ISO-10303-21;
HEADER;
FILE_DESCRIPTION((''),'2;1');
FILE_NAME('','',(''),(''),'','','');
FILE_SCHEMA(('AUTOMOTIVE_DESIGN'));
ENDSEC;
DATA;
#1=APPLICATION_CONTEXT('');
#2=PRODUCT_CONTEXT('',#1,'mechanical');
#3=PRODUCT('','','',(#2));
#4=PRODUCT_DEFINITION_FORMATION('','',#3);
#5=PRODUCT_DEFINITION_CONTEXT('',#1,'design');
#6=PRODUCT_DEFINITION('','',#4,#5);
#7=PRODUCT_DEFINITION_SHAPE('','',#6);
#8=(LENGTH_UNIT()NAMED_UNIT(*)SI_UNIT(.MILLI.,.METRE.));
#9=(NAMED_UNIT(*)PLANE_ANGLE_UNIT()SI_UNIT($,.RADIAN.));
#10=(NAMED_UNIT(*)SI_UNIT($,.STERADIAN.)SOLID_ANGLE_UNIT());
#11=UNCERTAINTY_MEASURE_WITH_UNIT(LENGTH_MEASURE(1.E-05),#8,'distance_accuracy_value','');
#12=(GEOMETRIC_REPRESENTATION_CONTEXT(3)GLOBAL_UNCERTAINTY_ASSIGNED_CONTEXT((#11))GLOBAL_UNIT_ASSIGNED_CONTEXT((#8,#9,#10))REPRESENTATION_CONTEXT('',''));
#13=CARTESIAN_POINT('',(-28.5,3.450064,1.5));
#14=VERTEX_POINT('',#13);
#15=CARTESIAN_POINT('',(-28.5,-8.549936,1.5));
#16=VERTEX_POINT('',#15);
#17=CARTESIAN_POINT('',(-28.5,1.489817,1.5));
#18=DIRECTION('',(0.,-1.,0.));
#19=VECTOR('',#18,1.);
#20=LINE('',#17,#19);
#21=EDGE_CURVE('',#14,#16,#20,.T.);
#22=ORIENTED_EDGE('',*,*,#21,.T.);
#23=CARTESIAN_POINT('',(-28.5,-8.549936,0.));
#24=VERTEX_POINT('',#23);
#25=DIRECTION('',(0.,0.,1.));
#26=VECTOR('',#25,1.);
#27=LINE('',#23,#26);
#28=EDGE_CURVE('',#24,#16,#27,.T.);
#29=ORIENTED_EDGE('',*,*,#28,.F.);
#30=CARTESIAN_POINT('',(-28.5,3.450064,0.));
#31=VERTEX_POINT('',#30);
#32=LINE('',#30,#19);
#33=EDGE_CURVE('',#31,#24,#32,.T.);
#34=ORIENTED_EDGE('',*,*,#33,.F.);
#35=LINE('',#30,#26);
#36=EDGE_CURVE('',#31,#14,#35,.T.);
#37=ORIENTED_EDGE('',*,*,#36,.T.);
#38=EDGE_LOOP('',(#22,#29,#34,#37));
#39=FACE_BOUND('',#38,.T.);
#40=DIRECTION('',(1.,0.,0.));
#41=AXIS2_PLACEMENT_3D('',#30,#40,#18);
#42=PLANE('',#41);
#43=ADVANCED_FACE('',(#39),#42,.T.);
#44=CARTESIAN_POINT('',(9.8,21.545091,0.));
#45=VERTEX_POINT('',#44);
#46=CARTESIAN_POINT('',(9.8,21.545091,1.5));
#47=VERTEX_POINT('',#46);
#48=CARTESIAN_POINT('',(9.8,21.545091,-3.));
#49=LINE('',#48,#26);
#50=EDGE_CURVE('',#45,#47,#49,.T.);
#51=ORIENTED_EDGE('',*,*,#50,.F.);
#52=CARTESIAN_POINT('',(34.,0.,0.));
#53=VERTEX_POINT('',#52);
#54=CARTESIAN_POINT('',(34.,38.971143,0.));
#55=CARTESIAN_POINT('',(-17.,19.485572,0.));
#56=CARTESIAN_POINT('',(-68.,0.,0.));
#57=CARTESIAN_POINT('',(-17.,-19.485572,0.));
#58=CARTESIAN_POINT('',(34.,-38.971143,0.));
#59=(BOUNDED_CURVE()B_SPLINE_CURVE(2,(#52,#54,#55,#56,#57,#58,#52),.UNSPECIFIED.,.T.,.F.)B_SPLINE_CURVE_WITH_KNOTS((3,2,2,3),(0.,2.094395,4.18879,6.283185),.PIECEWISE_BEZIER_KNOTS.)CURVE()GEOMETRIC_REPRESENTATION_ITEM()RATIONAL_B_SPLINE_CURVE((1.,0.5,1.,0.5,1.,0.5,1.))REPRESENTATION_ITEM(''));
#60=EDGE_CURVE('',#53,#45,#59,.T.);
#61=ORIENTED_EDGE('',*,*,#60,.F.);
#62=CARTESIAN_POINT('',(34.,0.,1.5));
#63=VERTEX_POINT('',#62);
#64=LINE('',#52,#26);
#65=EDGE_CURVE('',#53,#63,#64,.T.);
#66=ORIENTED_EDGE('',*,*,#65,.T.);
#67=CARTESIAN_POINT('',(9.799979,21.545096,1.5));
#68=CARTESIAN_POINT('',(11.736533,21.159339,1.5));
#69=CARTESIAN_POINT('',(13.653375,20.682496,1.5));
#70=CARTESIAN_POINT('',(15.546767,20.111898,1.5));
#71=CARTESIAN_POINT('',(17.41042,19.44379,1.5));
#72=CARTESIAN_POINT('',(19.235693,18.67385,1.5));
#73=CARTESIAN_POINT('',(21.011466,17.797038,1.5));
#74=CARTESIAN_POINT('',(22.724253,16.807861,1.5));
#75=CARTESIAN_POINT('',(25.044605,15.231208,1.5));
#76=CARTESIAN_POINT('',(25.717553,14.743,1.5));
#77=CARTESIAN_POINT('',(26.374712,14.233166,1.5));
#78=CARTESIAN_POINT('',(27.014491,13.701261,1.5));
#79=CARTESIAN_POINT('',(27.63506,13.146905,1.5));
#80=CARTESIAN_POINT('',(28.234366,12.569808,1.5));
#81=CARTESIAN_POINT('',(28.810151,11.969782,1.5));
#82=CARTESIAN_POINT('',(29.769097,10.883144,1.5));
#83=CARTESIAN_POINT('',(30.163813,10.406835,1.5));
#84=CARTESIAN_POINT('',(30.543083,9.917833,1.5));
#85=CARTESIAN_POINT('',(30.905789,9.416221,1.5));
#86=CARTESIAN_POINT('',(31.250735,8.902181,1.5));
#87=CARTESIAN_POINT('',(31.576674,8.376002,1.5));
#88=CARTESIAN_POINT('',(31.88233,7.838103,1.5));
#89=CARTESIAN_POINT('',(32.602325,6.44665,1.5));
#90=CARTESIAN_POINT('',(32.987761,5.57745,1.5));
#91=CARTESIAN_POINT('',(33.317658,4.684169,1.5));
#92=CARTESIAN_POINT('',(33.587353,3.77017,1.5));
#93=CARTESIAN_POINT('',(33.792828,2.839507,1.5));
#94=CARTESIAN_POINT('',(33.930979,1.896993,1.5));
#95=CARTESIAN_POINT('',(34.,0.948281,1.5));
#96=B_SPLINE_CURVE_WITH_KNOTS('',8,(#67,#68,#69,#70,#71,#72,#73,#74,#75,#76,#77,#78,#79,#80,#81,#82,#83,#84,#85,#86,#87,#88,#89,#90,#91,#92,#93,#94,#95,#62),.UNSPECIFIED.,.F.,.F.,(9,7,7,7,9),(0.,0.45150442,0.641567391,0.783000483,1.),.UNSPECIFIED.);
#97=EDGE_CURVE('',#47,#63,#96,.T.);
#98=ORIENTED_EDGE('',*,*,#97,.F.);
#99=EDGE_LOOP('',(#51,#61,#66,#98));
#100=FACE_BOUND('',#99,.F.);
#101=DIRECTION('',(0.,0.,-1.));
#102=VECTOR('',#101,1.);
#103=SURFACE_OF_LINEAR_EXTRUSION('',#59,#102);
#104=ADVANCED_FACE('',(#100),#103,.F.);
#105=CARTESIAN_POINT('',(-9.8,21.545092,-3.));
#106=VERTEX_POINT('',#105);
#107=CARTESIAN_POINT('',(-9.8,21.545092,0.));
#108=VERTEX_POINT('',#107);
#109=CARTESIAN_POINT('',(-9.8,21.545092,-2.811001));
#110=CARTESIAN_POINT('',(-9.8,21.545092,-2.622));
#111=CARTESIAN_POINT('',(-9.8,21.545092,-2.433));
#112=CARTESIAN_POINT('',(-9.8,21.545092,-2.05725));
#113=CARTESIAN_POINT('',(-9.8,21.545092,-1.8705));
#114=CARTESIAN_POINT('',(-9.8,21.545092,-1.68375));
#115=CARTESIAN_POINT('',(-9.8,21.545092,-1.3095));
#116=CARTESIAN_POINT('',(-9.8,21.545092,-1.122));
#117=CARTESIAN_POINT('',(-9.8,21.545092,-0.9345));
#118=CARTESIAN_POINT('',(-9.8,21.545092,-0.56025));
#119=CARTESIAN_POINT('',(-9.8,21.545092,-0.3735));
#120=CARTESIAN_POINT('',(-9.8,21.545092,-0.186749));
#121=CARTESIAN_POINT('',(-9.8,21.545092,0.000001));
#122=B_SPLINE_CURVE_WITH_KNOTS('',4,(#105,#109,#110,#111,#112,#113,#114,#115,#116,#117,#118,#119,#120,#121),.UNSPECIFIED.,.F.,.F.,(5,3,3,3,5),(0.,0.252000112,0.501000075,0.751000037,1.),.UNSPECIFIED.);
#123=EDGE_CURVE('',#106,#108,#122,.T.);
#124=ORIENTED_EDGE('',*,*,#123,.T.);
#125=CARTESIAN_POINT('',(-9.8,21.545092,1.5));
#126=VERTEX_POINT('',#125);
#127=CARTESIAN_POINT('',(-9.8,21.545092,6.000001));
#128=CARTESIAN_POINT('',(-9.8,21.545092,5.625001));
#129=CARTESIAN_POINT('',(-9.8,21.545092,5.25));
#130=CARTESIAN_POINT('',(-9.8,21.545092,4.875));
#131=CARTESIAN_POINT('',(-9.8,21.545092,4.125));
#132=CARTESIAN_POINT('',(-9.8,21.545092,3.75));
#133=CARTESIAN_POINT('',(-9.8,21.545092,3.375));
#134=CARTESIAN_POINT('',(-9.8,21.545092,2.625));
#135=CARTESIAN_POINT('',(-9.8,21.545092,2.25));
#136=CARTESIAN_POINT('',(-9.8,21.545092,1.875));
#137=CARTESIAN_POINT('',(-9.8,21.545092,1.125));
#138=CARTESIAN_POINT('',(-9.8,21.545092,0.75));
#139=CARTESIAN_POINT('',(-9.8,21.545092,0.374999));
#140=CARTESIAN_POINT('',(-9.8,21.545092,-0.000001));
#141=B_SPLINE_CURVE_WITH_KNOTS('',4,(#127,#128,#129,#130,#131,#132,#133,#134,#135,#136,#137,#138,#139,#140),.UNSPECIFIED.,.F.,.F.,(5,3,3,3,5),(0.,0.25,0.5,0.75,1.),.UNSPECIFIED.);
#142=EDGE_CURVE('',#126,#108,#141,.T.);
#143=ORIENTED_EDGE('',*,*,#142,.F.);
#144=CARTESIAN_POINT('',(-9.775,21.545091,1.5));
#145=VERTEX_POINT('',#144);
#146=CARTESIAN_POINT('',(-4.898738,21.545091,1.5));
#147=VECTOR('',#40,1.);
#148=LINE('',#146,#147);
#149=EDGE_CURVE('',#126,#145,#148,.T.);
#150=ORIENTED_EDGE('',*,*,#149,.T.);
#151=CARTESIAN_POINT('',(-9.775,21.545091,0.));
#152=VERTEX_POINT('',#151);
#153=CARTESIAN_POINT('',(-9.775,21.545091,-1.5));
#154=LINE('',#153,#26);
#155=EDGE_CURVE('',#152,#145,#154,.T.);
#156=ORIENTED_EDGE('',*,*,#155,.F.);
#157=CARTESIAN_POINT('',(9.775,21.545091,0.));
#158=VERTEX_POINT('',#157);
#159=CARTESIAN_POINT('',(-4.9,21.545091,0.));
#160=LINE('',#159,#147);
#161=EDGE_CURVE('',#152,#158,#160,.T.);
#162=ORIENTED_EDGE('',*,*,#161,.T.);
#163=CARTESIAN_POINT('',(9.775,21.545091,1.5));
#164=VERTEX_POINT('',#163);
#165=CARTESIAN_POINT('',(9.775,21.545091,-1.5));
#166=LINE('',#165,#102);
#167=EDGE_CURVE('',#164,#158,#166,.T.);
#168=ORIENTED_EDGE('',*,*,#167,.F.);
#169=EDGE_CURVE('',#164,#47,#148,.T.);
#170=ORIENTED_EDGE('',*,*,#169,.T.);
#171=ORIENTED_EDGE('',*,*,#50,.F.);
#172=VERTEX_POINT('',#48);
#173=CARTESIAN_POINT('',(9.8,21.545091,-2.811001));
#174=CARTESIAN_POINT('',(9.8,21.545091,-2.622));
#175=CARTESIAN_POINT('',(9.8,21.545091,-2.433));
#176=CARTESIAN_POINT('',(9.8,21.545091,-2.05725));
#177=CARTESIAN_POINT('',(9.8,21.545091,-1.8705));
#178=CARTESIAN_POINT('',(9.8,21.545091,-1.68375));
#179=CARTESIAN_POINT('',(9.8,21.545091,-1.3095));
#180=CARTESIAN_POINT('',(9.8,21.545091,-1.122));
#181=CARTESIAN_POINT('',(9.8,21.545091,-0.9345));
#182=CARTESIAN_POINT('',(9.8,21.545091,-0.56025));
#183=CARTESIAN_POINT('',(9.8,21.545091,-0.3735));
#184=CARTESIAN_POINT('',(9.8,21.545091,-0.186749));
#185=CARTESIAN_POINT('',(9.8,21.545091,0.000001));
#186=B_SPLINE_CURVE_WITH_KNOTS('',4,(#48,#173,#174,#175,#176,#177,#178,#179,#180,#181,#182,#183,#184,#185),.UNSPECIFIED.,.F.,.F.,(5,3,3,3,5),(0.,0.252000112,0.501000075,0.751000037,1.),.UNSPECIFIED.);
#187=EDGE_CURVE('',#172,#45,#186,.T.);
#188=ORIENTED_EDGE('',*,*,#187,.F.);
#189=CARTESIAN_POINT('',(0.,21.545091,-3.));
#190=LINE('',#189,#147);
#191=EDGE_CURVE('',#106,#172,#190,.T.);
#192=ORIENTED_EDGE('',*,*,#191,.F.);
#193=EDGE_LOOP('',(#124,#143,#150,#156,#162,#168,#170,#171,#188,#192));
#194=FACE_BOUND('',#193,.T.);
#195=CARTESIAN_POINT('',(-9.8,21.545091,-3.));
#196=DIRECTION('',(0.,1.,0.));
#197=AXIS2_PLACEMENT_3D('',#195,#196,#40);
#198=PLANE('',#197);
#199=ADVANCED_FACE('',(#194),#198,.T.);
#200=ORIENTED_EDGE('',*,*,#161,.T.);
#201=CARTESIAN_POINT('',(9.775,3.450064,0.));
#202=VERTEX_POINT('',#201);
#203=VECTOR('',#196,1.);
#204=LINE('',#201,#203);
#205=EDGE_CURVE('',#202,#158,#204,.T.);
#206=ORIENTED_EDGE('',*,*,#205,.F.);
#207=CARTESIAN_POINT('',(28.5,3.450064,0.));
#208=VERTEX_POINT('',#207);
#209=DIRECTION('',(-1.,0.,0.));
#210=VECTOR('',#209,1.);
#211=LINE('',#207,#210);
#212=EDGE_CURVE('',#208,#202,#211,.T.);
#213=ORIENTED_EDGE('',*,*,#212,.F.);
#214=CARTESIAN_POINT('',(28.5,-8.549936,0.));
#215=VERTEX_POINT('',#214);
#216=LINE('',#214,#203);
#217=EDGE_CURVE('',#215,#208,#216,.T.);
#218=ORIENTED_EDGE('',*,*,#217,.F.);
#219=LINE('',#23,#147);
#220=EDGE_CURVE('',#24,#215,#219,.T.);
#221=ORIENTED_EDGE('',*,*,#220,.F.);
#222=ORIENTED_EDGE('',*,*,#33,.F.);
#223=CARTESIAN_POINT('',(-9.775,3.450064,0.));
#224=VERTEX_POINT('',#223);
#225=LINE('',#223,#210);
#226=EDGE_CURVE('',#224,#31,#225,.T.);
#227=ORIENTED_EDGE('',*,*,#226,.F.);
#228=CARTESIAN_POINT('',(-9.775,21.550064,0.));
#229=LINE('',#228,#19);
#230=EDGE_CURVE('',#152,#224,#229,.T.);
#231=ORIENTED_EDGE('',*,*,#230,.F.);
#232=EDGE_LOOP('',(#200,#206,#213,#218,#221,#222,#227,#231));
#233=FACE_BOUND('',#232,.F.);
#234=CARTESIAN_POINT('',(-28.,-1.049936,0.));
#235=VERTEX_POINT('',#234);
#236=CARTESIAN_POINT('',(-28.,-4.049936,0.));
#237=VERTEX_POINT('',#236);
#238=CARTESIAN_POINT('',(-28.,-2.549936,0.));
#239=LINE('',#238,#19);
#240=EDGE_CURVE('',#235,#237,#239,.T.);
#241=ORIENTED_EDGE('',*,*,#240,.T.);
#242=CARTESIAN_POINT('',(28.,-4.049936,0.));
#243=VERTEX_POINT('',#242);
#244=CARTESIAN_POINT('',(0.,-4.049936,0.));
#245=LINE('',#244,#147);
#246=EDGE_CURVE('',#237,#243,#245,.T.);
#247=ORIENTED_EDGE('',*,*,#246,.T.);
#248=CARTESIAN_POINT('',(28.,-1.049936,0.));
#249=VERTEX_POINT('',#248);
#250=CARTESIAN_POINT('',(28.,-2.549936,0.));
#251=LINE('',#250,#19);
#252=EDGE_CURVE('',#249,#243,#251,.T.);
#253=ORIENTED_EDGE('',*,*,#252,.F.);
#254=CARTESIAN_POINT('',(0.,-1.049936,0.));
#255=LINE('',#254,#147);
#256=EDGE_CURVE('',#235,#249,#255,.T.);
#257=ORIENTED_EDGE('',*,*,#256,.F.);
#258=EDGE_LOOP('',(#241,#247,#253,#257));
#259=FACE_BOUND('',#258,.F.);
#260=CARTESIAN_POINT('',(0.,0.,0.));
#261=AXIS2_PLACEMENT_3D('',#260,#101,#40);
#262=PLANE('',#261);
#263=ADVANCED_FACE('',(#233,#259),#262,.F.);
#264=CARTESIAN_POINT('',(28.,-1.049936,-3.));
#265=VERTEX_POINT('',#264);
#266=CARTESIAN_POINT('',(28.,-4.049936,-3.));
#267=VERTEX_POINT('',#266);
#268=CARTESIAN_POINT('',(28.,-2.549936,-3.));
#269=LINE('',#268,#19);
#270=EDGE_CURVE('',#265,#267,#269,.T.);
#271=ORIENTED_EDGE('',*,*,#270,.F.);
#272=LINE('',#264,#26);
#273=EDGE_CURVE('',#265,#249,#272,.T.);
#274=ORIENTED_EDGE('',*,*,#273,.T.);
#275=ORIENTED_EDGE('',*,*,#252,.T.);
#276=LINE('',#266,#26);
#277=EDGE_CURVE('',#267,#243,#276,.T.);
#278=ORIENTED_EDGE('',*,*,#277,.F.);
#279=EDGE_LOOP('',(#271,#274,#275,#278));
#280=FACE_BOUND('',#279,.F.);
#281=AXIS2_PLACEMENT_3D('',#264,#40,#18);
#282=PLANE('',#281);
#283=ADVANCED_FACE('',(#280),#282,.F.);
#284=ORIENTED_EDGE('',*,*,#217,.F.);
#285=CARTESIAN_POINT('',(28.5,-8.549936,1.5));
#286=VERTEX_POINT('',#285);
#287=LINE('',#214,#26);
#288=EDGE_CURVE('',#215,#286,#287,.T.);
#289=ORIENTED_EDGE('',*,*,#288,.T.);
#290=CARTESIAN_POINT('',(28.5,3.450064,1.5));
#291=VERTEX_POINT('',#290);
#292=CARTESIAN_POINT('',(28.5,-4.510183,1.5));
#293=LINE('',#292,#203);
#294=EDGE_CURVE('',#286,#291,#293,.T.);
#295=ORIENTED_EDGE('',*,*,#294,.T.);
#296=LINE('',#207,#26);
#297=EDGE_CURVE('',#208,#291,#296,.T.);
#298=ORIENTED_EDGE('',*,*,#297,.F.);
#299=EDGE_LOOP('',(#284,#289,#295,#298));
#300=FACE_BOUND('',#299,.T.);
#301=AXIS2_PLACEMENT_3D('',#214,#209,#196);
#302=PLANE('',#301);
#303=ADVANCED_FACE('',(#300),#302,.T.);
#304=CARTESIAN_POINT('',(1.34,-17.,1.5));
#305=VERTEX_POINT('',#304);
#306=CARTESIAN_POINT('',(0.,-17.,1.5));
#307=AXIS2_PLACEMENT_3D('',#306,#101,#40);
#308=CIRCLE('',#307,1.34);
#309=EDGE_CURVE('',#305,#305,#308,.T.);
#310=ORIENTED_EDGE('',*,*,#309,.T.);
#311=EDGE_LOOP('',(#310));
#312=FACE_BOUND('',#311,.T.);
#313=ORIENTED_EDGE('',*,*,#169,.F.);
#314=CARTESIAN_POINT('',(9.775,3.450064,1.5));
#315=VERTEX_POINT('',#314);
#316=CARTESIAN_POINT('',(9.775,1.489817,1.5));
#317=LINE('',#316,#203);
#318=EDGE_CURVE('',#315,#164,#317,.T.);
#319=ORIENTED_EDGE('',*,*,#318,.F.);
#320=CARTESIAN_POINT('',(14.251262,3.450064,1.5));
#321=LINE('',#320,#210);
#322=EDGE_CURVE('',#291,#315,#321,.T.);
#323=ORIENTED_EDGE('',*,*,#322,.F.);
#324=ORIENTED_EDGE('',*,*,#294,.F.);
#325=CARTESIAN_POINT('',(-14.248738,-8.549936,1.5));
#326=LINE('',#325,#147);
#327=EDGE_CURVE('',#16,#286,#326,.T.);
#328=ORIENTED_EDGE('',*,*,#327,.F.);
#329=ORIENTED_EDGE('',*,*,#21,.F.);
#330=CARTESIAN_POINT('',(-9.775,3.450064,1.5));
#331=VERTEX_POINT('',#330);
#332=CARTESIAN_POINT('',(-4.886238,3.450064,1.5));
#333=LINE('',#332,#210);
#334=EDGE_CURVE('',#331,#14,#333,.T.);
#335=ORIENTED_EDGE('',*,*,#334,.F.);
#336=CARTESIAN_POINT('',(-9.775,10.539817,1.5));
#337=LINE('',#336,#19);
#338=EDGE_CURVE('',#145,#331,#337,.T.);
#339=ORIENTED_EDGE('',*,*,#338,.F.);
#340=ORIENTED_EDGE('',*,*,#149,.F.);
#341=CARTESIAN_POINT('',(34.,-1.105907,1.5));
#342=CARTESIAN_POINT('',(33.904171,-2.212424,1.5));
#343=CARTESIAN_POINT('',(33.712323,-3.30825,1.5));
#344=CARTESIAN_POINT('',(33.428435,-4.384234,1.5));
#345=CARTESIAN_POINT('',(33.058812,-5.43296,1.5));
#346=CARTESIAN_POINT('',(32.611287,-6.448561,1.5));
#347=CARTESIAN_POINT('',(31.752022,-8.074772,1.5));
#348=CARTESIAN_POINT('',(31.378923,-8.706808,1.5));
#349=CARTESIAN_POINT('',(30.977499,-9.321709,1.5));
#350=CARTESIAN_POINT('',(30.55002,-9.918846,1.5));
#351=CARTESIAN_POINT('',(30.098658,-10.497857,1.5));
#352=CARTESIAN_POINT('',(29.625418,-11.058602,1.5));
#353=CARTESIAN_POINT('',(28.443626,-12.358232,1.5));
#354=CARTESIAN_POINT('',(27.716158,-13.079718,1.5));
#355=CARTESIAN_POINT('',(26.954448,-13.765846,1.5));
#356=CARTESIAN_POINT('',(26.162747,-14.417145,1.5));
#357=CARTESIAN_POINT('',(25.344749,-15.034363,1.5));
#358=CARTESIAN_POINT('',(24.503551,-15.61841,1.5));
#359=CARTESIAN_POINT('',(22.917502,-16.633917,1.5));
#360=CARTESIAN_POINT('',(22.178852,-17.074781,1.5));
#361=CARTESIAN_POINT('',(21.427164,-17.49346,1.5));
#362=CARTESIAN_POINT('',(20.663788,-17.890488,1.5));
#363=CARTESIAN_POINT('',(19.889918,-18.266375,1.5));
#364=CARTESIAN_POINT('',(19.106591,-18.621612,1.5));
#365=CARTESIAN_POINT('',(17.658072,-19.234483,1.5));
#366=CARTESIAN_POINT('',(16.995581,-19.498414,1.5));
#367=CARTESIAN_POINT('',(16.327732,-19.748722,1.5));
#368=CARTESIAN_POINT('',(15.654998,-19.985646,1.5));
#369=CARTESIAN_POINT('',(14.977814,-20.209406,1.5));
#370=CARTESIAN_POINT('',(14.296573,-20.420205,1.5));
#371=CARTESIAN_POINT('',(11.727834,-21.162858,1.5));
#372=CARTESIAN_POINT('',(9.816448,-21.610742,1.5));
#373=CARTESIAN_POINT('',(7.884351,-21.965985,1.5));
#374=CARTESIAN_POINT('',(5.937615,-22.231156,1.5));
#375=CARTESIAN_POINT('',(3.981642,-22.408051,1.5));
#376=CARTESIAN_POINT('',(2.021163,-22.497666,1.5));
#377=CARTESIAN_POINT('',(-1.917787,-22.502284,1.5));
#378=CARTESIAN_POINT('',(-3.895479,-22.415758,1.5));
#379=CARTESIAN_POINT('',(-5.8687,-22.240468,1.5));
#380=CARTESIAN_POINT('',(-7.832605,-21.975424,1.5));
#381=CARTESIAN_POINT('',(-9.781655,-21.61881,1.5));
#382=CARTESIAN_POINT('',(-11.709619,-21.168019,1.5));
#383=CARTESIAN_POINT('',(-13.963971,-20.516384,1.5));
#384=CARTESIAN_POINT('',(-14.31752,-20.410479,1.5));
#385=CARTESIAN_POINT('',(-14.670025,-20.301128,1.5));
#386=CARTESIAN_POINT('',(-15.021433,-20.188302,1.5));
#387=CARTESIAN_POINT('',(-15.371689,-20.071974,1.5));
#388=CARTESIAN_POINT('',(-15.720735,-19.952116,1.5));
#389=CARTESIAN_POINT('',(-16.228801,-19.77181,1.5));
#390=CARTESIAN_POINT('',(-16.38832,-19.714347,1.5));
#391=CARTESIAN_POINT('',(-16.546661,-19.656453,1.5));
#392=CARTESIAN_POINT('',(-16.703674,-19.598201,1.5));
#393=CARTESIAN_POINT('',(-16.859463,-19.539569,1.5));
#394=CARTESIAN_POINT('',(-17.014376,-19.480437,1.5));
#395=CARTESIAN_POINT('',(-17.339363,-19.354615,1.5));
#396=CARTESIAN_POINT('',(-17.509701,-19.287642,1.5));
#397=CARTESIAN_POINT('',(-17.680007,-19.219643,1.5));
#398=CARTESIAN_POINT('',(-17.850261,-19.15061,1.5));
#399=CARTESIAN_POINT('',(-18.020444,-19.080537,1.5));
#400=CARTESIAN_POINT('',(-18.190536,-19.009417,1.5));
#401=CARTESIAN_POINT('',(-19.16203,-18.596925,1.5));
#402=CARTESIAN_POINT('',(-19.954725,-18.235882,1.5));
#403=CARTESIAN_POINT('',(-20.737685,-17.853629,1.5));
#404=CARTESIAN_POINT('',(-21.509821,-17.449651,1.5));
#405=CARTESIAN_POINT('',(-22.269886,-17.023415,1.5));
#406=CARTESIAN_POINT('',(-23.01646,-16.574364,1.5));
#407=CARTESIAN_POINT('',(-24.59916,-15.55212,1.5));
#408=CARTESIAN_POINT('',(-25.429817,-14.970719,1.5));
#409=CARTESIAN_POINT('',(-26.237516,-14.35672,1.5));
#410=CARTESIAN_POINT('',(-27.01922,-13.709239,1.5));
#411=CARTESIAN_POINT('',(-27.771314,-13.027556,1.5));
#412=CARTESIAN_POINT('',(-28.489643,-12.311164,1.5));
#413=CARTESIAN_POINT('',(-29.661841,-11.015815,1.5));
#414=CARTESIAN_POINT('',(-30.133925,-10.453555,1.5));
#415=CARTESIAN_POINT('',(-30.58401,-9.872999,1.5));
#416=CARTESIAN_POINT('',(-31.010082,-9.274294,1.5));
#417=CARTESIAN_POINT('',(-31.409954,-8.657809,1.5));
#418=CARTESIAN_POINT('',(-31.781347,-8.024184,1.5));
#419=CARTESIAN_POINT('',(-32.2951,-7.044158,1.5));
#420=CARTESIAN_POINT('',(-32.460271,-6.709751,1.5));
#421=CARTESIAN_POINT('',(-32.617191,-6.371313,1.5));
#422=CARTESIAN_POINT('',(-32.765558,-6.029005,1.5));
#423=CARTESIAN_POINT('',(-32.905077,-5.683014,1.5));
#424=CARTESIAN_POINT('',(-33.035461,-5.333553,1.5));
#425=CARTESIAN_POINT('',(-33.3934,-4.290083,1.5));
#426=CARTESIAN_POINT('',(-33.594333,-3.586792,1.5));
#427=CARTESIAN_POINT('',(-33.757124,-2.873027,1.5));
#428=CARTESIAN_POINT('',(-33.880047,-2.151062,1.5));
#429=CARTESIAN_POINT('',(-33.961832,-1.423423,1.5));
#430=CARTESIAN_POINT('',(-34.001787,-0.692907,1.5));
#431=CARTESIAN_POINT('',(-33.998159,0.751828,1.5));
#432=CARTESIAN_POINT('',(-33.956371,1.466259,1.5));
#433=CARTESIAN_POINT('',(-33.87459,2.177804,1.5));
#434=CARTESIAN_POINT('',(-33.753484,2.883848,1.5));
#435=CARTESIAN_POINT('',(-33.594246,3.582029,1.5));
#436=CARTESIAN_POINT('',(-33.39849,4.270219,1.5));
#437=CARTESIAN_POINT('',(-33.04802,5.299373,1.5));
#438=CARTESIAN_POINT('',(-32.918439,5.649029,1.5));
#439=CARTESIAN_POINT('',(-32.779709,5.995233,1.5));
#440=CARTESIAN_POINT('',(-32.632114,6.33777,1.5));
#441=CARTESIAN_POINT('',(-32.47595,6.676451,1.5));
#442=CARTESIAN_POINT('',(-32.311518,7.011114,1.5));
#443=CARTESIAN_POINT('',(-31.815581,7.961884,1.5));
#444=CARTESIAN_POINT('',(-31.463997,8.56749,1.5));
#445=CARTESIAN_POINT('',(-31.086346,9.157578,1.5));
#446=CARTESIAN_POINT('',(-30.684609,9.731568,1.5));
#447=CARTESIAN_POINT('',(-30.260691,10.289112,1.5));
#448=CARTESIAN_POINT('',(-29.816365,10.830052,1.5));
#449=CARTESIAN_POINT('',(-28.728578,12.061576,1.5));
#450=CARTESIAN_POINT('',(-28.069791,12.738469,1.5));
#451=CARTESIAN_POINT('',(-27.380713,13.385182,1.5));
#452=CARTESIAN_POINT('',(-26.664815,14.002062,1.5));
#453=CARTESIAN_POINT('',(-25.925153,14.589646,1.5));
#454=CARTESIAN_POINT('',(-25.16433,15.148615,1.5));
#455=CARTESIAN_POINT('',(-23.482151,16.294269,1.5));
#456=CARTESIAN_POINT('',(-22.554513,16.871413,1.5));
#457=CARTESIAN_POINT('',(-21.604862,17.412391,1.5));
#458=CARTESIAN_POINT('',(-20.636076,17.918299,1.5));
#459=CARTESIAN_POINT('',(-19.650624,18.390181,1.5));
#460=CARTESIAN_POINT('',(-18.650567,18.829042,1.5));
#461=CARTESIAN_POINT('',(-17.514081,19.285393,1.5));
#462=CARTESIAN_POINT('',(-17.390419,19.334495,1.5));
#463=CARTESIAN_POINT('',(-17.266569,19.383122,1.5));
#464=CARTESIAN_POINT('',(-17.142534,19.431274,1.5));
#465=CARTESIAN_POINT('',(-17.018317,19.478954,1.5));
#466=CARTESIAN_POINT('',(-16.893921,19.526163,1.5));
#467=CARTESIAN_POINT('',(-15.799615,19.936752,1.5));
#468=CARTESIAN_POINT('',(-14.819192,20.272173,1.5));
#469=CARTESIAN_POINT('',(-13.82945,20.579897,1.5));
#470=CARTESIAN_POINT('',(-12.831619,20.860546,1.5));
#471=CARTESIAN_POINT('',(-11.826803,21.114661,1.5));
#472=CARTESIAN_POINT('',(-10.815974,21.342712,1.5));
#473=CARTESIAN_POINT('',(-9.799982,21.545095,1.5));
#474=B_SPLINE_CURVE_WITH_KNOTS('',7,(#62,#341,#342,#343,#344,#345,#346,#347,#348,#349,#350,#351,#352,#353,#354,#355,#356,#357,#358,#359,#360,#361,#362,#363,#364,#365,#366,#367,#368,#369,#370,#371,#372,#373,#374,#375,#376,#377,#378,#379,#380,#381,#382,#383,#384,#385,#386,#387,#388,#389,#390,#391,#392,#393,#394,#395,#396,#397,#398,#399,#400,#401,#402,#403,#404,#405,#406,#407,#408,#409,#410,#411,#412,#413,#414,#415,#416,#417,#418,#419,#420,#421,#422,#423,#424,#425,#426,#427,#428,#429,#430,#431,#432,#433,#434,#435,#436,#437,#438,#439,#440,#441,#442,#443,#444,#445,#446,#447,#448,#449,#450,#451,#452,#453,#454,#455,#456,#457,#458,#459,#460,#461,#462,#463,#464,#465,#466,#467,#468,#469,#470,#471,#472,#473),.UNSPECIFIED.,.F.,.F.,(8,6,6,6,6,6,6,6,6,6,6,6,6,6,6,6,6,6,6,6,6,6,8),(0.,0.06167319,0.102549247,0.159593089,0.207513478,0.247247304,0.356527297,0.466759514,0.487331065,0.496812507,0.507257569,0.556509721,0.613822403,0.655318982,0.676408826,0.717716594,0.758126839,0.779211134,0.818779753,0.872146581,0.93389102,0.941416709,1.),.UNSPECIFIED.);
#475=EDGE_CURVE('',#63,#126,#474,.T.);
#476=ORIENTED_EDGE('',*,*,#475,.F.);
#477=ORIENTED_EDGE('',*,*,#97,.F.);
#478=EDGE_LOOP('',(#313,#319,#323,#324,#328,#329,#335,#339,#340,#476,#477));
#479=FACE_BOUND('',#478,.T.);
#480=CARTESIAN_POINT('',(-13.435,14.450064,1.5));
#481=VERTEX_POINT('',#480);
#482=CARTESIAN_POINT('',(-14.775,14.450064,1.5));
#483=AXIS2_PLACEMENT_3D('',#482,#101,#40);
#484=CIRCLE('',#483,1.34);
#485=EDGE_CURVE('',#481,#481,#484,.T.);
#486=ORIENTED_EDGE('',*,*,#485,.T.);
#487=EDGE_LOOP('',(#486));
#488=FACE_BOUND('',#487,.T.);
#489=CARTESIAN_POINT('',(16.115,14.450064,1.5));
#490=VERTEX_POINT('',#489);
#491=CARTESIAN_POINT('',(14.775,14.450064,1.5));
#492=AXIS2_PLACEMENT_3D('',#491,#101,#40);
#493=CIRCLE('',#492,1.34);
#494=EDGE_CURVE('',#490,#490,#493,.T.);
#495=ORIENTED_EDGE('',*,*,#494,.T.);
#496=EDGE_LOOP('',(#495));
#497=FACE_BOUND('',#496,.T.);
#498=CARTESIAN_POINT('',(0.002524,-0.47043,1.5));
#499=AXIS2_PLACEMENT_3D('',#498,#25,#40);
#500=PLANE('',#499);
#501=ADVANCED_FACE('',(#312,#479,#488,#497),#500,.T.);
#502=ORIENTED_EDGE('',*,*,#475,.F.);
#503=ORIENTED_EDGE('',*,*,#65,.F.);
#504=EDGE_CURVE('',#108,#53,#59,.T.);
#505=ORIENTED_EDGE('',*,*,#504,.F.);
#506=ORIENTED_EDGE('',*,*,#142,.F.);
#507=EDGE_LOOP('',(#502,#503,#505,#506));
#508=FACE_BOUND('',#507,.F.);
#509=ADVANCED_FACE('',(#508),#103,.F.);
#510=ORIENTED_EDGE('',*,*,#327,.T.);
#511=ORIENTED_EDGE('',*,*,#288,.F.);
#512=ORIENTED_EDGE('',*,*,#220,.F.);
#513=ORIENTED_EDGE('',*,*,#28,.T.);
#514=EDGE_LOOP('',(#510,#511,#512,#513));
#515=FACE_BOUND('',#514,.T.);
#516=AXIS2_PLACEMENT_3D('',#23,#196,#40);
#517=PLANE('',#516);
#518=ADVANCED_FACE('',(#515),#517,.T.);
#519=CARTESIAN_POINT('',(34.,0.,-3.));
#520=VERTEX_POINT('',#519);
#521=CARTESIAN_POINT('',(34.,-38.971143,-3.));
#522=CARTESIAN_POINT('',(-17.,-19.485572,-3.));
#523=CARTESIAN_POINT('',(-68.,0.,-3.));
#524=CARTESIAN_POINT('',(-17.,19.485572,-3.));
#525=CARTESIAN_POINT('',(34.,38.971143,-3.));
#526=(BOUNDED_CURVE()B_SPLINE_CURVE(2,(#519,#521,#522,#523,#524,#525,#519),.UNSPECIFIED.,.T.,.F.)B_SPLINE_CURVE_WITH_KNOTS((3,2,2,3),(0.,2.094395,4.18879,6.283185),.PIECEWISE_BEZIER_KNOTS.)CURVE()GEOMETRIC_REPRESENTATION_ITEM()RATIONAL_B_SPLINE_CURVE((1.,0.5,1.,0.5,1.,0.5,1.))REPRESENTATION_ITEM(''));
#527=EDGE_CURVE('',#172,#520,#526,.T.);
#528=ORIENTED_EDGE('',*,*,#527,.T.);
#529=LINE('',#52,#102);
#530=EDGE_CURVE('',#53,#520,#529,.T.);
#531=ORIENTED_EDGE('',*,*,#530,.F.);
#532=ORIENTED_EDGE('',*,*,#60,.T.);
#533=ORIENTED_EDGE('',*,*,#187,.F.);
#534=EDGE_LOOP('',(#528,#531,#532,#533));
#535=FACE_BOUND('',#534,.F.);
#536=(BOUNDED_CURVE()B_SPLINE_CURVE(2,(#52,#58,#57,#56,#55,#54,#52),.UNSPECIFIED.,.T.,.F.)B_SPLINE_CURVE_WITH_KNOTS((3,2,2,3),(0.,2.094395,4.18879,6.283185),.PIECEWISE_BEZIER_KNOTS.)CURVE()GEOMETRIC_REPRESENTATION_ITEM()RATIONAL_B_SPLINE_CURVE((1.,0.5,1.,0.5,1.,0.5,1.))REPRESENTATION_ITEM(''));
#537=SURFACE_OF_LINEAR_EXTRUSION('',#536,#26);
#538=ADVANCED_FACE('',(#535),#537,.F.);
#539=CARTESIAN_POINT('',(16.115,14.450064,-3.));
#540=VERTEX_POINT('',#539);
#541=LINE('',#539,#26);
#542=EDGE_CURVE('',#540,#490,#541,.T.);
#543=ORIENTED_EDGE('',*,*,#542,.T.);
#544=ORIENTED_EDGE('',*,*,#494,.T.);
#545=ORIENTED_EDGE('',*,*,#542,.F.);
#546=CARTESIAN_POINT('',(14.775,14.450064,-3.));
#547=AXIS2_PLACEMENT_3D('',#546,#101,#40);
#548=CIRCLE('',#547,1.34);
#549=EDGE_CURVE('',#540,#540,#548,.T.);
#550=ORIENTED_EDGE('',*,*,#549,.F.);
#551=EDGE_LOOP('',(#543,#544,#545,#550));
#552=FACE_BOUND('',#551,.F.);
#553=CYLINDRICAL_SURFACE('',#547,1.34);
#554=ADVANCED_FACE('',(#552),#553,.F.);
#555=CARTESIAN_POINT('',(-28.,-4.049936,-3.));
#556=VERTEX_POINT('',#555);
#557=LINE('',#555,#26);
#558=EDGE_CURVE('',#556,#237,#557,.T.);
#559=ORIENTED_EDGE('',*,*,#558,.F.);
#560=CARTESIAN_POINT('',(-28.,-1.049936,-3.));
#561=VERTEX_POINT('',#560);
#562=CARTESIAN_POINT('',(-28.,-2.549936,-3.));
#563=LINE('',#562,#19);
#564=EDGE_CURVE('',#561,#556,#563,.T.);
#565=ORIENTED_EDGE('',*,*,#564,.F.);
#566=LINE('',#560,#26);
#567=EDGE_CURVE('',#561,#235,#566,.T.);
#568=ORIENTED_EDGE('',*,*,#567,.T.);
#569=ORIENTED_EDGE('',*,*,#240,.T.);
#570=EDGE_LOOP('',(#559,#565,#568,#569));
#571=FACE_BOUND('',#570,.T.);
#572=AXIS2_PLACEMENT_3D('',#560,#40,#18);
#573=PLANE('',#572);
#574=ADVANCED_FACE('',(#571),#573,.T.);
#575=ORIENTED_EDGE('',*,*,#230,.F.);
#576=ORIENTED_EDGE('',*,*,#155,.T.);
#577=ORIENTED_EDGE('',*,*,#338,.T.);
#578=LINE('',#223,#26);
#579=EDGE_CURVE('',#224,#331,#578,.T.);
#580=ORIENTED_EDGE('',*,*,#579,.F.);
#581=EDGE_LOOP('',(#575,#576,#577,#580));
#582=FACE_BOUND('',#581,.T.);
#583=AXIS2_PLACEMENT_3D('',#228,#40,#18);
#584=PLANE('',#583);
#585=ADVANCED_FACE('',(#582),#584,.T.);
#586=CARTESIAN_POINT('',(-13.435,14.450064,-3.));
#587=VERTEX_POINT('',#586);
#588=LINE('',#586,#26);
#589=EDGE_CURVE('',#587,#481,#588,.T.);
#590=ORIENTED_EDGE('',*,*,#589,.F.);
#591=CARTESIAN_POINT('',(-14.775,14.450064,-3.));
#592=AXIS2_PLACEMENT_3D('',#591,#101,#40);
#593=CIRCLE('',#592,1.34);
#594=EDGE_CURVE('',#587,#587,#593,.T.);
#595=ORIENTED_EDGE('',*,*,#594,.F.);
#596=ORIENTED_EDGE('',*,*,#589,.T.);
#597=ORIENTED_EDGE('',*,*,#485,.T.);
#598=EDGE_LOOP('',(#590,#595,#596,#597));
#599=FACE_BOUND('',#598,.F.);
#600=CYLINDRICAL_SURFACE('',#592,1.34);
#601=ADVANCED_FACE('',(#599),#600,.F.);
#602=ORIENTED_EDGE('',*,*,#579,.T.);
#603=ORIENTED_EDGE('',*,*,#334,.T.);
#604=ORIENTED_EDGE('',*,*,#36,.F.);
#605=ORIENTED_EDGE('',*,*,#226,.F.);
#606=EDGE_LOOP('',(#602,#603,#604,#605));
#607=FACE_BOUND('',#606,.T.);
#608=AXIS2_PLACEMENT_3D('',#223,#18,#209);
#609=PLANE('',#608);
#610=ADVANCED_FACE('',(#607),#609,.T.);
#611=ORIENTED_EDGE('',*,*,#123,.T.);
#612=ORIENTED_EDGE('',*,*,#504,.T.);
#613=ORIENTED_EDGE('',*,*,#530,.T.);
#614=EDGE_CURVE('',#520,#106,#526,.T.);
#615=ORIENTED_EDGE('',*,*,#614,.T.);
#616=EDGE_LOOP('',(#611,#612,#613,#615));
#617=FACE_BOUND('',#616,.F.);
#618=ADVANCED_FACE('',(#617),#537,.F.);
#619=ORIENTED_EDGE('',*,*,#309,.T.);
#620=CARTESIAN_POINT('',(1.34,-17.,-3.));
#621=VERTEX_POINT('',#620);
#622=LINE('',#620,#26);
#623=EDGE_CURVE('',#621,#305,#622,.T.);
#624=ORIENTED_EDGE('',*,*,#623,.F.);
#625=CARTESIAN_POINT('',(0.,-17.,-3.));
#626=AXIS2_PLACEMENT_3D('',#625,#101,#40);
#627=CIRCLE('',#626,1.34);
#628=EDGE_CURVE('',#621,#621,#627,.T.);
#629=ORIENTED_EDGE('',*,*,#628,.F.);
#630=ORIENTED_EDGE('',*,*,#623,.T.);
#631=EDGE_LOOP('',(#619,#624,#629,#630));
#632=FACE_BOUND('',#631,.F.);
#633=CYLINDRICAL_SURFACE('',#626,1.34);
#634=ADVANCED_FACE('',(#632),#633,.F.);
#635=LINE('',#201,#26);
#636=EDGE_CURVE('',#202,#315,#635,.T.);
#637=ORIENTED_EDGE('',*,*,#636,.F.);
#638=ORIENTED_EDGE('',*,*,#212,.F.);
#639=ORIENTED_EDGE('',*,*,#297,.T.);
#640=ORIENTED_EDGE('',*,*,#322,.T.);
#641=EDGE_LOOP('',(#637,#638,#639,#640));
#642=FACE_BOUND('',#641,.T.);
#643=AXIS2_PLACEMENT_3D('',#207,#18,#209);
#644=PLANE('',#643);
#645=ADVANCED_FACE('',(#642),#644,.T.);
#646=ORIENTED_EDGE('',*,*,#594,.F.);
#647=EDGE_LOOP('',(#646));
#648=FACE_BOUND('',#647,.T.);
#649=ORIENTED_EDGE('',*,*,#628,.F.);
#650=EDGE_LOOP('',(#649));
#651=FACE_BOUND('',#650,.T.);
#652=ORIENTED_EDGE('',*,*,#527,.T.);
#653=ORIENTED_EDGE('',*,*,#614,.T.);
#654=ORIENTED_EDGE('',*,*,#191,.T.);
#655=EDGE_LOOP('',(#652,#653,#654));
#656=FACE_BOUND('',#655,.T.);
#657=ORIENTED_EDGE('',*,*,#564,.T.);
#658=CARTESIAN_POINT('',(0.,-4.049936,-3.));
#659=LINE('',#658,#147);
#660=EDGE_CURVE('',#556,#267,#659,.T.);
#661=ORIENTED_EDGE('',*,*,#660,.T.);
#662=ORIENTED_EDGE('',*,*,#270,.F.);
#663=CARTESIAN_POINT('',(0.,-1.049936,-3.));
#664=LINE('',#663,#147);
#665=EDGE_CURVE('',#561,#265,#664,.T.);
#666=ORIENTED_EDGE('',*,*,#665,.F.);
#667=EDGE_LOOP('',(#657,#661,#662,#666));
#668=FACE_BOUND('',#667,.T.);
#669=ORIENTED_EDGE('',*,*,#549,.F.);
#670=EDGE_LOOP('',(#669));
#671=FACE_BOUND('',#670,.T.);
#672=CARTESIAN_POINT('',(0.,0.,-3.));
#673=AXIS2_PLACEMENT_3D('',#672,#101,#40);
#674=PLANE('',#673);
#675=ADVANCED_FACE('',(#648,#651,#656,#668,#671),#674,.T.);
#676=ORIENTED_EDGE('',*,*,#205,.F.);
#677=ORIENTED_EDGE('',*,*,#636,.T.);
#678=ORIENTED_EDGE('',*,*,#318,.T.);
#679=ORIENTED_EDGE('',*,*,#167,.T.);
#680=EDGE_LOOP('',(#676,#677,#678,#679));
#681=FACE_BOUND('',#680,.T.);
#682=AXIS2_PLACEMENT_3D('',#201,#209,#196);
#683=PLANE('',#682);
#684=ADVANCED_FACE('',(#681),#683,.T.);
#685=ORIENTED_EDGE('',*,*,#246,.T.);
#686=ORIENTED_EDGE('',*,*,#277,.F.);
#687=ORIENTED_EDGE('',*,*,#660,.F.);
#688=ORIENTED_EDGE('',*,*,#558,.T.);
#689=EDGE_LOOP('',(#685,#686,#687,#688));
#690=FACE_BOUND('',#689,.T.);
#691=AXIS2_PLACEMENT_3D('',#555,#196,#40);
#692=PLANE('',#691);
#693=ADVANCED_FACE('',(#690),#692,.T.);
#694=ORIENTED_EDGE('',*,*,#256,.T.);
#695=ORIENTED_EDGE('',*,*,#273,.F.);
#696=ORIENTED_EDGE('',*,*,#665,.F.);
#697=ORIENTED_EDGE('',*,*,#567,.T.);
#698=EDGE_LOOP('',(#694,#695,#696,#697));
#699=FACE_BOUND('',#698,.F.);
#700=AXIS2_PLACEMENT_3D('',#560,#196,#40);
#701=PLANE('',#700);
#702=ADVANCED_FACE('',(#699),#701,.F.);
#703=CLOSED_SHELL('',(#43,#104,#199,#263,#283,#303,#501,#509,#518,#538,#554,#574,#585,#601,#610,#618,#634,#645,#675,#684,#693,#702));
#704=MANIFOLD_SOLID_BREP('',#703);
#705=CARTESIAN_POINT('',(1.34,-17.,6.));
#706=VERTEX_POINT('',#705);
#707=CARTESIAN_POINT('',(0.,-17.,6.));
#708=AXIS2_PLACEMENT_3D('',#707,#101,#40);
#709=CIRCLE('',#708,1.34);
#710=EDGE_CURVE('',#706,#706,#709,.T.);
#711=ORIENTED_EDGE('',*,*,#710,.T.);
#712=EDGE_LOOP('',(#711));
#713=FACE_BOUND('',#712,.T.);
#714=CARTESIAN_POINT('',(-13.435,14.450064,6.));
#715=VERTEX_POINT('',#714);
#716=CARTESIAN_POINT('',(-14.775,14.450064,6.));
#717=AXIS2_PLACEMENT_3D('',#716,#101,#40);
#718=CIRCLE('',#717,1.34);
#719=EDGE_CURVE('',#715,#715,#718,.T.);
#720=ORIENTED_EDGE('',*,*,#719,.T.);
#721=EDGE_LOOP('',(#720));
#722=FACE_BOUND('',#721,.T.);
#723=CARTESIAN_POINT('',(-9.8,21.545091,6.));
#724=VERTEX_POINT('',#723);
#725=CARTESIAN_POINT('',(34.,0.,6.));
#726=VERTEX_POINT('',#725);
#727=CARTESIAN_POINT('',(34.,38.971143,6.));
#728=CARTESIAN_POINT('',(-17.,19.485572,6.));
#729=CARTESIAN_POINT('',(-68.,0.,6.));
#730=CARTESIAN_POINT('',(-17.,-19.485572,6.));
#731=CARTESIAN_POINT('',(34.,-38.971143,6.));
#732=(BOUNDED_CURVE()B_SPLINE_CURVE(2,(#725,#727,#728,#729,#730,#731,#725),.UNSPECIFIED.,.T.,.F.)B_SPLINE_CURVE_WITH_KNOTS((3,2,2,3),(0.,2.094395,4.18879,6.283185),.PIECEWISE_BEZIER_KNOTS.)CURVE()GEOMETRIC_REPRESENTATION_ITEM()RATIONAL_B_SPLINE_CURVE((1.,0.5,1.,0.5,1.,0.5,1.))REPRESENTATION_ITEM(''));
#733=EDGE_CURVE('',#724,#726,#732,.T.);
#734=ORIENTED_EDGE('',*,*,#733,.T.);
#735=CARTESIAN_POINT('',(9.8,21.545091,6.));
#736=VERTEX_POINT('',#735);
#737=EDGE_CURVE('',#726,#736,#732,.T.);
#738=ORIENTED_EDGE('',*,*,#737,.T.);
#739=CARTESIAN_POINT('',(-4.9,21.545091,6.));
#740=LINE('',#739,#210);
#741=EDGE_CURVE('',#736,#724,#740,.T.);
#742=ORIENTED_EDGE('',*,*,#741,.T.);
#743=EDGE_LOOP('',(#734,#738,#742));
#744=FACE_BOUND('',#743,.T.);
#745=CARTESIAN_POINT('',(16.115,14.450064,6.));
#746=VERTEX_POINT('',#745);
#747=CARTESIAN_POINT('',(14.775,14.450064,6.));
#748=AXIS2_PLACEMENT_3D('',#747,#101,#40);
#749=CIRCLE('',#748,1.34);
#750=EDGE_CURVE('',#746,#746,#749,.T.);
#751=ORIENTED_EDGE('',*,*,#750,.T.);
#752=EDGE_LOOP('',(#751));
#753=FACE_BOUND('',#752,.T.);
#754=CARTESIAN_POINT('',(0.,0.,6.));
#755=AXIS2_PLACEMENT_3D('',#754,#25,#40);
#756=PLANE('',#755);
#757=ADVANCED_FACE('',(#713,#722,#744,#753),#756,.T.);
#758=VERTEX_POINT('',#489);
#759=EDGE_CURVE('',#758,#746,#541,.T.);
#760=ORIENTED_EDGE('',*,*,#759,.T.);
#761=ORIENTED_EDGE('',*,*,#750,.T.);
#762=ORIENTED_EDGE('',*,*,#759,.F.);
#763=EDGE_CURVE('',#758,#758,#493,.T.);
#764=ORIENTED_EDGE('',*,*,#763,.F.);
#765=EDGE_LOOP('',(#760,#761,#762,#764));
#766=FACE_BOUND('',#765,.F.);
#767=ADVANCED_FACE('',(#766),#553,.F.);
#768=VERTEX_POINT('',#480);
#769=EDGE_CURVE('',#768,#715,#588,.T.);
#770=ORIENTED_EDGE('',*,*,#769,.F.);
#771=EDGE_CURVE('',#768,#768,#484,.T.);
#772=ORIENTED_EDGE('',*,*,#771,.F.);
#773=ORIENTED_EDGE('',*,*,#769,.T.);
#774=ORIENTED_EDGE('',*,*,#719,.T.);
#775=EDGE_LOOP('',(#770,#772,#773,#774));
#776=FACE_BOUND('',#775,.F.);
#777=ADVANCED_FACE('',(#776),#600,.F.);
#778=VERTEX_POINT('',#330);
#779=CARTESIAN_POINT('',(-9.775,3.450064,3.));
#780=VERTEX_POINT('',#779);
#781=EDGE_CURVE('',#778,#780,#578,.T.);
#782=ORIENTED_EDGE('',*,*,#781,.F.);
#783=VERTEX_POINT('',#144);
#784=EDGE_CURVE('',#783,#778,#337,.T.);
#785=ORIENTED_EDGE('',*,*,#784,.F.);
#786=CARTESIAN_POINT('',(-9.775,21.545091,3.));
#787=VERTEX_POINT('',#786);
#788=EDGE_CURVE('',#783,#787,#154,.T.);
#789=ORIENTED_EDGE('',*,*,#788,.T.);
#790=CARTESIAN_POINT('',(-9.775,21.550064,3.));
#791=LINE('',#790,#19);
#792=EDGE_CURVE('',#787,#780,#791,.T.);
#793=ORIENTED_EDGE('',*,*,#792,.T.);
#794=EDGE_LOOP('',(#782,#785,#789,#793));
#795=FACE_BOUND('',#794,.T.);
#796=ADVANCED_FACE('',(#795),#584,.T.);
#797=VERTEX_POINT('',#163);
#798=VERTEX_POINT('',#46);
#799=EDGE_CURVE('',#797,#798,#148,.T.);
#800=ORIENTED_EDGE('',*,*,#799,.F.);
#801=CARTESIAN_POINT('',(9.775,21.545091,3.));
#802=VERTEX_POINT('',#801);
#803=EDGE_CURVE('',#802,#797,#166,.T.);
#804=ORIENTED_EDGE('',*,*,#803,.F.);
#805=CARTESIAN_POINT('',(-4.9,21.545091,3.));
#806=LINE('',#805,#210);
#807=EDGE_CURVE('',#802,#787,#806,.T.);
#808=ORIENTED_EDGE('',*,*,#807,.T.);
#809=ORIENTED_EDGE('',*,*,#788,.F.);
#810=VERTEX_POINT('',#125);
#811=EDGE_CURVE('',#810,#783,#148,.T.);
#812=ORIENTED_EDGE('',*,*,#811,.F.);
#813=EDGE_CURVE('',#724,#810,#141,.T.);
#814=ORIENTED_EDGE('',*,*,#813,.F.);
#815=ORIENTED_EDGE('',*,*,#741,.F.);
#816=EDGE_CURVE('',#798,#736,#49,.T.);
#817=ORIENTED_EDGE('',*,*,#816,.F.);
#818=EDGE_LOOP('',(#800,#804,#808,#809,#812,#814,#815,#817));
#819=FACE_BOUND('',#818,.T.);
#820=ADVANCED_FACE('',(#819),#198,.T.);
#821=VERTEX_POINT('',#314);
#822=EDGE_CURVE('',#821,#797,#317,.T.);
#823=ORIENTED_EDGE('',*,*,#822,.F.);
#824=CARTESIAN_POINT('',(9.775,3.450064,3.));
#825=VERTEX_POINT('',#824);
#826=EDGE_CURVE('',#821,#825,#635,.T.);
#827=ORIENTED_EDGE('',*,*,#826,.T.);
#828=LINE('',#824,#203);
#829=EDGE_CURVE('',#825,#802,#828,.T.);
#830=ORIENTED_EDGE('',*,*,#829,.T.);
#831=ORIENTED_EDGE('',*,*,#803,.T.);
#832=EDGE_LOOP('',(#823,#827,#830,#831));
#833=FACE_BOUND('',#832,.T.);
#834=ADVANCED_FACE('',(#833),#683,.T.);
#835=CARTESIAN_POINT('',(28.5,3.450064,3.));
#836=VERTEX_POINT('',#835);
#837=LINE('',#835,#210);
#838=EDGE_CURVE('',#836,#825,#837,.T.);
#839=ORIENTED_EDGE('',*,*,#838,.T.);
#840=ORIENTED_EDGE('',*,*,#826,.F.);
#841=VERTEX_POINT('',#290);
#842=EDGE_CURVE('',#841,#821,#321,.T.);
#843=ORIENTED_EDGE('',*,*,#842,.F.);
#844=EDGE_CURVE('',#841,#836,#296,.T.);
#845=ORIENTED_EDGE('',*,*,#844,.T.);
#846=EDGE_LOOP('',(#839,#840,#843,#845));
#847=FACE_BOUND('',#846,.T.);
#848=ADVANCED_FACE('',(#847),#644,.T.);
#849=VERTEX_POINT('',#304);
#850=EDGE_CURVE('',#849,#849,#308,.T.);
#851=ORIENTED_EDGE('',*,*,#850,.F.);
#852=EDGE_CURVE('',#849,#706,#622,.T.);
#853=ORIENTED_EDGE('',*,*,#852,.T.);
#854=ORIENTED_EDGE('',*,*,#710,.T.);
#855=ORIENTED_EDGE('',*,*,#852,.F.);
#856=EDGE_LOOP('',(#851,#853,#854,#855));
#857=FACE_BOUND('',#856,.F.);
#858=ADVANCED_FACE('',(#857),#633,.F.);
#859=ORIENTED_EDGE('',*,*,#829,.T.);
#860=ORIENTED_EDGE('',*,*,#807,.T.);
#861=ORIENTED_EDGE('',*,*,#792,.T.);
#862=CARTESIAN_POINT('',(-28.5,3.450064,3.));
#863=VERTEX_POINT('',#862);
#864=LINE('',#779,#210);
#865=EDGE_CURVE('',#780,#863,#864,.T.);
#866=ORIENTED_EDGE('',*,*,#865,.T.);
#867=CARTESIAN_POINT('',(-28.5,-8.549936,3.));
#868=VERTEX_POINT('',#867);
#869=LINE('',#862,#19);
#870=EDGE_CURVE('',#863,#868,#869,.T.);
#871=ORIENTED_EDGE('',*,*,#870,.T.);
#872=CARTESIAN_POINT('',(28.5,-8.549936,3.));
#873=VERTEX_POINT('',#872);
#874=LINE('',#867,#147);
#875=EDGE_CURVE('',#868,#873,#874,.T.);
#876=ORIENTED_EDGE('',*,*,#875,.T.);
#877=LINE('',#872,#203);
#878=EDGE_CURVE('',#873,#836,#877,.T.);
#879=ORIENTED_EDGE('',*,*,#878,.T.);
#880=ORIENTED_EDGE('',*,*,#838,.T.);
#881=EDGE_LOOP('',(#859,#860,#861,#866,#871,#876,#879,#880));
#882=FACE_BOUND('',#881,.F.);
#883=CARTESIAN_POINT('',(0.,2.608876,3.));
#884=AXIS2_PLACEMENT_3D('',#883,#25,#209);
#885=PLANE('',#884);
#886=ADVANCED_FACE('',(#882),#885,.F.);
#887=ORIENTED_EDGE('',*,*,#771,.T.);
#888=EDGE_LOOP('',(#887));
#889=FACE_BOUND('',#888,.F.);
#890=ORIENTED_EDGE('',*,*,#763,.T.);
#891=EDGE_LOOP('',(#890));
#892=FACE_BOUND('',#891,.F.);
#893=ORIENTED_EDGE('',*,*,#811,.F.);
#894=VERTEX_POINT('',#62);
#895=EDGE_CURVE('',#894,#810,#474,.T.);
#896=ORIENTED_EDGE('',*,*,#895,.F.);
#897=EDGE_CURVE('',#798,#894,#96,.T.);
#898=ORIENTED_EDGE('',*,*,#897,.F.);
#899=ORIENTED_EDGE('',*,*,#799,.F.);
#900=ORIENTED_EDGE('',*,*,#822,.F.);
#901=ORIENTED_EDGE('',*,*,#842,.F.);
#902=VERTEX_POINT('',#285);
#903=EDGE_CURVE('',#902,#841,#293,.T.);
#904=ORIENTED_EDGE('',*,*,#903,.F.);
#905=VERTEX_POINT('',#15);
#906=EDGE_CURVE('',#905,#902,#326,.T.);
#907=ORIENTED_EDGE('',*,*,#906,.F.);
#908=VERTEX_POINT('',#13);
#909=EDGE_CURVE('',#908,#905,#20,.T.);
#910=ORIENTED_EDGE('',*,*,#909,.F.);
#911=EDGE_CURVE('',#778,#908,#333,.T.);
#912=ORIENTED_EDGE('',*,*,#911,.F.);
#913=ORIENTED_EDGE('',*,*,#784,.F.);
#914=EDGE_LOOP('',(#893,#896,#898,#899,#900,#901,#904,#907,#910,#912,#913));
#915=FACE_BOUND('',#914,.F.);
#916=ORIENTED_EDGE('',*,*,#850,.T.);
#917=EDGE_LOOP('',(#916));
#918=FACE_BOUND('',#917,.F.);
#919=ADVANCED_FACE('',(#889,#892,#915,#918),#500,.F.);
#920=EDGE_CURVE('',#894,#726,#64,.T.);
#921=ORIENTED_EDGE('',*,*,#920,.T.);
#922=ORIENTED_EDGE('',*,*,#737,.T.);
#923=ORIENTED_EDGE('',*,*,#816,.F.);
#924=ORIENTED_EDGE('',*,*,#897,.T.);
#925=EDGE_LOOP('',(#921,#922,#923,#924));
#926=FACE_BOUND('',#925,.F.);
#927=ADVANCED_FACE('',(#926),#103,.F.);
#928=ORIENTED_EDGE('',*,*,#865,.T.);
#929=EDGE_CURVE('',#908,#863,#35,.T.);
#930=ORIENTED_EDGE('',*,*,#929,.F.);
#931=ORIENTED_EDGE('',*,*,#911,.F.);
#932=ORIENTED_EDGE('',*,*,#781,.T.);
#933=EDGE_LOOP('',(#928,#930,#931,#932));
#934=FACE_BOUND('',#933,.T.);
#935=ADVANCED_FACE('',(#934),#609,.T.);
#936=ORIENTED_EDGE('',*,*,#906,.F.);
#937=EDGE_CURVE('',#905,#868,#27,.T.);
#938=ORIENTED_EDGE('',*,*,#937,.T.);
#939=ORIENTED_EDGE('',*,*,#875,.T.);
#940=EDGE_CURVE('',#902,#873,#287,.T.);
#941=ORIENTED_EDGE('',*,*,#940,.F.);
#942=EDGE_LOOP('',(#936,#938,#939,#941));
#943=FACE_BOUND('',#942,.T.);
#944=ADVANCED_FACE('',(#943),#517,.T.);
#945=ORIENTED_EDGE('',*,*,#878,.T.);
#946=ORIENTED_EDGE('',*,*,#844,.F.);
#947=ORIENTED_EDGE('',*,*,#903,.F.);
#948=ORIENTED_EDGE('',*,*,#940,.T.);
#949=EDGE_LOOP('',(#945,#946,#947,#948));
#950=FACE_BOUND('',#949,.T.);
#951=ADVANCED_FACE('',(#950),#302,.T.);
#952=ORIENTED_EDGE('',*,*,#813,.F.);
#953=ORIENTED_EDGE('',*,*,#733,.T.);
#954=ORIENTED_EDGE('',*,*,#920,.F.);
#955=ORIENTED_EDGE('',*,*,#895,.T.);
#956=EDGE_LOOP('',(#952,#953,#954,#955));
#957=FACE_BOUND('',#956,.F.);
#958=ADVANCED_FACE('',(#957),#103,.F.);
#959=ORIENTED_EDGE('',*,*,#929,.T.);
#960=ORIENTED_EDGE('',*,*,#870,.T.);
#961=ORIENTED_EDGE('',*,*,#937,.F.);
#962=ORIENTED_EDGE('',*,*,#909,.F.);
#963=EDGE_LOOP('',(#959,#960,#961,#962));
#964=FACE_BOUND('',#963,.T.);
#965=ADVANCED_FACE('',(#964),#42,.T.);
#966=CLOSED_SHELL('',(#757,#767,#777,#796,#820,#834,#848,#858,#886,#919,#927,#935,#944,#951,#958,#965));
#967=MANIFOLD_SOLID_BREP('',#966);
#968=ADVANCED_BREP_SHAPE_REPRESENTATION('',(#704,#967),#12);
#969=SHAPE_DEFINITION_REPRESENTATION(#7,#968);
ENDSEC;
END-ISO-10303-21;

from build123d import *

# Parameters (mm, degrees)
BOX_BOTTOM_HALF_0_W     = 69.994952
BOX_BOTTOM_HALF_0_H     = 46.031044
BOX_BOTTOM_HALF_0_DEPTH = 5.5
PAD_DEPTH               = 6
POCKET_DEPTH            = 3
PAD001_DEPTH            = 3
SKETCH003_W             = 56
SKETCH003_H             = 3
POCKET001_DEPTH         = 3
SKETCH004_W             = 19.6
SKETCH004_H             = 1
POCKET002_DEPTH         = 9.001
SKETCH005_R             = 1.34
POCKET003_DEPTH         = 9.001


with BuildPart() as box_bottom_half_0_body:
    # box_bottom_half_0 → box_bottom_half_0 (new body)
    with BuildSketch(Plane(origin=(-34.994952, -23.485952, -4), x_dir=(1, 0, 0), z_dir=(0, 0, 1))):
        with Locations((34.997476, 23.015522)):
            Rectangle(BOX_BOTTOM_HALF_0_W, BOX_BOTTOM_HALF_0_H)
    extrude(amount=BOX_BOTTOM_HALF_0_DEPTH)


with BuildPart() as body:
    # Sketch → Pad (new body)
    with BuildSketch(Plane.XY):
        with BuildLine():
            add(Edge.make_bspline(
                [(34, 0), (34, 38.971143), (-17, 19.485572), (-68, 0), (-17, -19.485572), (34, -38.971143), (34, 0)],
                knots=[0, 0, 0, 2.094395, 2.094395, 4.18879, 4.18879, 6.283185, 6.283185, 6.283185], degree=2, weights=[1, 0.5, 1, 0.5, 1, 0.5, 1]))
        make_face()
    extrude(amount=PAD_DEPTH)

    # Sketch001 (on Face2 of Pad) → Pocket (cut)
    with BuildSketch(Plane(origin=(0, 0, 0), x_dir=(1, 0, 0), z_dir=(0, 0, -1))):
        Polygon((9.775, -3.450064), (9.775, -21.550064), (-9.775, -21.550064), (-9.775, -3.450064), (-28.5, -3.450064), (-28.5, 8.549936), (28.5, 8.549936), (28.5, -3.450064), align=None)
    extrude(amount=-POCKET_DEPTH, mode=Mode.SUBTRACT)

    # Sketch002 (on Face2 of Pocket) → Pad001 (join)
    with BuildSketch(Plane(origin=(0, 0, 0), x_dir=(1, 0, 0), z_dir=(0, 0, -1))):
        with BuildLine():
            add(Edge.make_bspline(
                [(34, 0), (34, 38.971143), (-17, 19.485572), (-68, 0), (-17, -19.485572), (34, -38.971143), (34, 0)],
                knots=[0, 0, 0, 2.094395, 2.094395, 4.18879, 4.18879, 6.283185, 6.283185, 6.283185], degree=2, weights=[1, 0.5, 1, 0.5, 1, 0.5, 1]))
        make_face()
    extrude(amount=PAD001_DEPTH)

    # Sketch003 (on Face4 of Pad001) → Pocket001 (cut)
    with BuildSketch(Plane(origin=(0, 0, -3), x_dir=(1, 0, 0), z_dir=(0, 0, -1))):
        with Locations((0, 2.549936)):
            Rectangle(SKETCH003_W, SKETCH003_H)
    extrude(amount=-POCKET001_DEPTH, mode=Mode.SUBTRACT)

    # Sketch004 (on Face4 of Pocket001) → Pocket002 (cut, through all)
    with BuildSketch(Plane(origin=(0, 0, -3), x_dir=(1, 0, 0), z_dir=(0, 0, -1))):
        with Locations((0, -22.045091)):
            Rectangle(SKETCH004_W, SKETCH004_H)
    extrude(amount=-POCKET002_DEPTH, mode=Mode.SUBTRACT)

    # Sketch005 (on Face7 of Pocket002) → Pocket003 (cut, through all)
    with BuildSketch(Plane(origin=(0, 0, -3), x_dir=(1, 0, 0), z_dir=(0, 0, -1))):
        with Locations((-14.775, -14.450064)):
            Circle(SKETCH005_R)
        with Locations((0, 17)):
            Circle(SKETCH005_R)
        with Locations((14.775, -14.450064)):
            Circle(SKETCH005_R)
    extrude(amount=-POCKET003_DEPTH, mode=Mode.SUBTRACT)


with BuildPart() as bottom_half_0_body:
    # bottom_half_0 base: copy of Body
    add(body.part)

    # bottom_half_0: intersect box_bottom_half_0 body
    add(box_bottom_half_0_body.part, mode=Mode.INTERSECT)


with BuildPart() as top_half_0_body:
    # top_half_0 base: copy of Body
    add(body.part)

    # top_half_0: cut box_bottom_half_0 body
    add(box_bottom_half_0_body.part, mode=Mode.SUBTRACT)


solid = Compound([bottom_half_0_body.part, top_half_0_body.part])
